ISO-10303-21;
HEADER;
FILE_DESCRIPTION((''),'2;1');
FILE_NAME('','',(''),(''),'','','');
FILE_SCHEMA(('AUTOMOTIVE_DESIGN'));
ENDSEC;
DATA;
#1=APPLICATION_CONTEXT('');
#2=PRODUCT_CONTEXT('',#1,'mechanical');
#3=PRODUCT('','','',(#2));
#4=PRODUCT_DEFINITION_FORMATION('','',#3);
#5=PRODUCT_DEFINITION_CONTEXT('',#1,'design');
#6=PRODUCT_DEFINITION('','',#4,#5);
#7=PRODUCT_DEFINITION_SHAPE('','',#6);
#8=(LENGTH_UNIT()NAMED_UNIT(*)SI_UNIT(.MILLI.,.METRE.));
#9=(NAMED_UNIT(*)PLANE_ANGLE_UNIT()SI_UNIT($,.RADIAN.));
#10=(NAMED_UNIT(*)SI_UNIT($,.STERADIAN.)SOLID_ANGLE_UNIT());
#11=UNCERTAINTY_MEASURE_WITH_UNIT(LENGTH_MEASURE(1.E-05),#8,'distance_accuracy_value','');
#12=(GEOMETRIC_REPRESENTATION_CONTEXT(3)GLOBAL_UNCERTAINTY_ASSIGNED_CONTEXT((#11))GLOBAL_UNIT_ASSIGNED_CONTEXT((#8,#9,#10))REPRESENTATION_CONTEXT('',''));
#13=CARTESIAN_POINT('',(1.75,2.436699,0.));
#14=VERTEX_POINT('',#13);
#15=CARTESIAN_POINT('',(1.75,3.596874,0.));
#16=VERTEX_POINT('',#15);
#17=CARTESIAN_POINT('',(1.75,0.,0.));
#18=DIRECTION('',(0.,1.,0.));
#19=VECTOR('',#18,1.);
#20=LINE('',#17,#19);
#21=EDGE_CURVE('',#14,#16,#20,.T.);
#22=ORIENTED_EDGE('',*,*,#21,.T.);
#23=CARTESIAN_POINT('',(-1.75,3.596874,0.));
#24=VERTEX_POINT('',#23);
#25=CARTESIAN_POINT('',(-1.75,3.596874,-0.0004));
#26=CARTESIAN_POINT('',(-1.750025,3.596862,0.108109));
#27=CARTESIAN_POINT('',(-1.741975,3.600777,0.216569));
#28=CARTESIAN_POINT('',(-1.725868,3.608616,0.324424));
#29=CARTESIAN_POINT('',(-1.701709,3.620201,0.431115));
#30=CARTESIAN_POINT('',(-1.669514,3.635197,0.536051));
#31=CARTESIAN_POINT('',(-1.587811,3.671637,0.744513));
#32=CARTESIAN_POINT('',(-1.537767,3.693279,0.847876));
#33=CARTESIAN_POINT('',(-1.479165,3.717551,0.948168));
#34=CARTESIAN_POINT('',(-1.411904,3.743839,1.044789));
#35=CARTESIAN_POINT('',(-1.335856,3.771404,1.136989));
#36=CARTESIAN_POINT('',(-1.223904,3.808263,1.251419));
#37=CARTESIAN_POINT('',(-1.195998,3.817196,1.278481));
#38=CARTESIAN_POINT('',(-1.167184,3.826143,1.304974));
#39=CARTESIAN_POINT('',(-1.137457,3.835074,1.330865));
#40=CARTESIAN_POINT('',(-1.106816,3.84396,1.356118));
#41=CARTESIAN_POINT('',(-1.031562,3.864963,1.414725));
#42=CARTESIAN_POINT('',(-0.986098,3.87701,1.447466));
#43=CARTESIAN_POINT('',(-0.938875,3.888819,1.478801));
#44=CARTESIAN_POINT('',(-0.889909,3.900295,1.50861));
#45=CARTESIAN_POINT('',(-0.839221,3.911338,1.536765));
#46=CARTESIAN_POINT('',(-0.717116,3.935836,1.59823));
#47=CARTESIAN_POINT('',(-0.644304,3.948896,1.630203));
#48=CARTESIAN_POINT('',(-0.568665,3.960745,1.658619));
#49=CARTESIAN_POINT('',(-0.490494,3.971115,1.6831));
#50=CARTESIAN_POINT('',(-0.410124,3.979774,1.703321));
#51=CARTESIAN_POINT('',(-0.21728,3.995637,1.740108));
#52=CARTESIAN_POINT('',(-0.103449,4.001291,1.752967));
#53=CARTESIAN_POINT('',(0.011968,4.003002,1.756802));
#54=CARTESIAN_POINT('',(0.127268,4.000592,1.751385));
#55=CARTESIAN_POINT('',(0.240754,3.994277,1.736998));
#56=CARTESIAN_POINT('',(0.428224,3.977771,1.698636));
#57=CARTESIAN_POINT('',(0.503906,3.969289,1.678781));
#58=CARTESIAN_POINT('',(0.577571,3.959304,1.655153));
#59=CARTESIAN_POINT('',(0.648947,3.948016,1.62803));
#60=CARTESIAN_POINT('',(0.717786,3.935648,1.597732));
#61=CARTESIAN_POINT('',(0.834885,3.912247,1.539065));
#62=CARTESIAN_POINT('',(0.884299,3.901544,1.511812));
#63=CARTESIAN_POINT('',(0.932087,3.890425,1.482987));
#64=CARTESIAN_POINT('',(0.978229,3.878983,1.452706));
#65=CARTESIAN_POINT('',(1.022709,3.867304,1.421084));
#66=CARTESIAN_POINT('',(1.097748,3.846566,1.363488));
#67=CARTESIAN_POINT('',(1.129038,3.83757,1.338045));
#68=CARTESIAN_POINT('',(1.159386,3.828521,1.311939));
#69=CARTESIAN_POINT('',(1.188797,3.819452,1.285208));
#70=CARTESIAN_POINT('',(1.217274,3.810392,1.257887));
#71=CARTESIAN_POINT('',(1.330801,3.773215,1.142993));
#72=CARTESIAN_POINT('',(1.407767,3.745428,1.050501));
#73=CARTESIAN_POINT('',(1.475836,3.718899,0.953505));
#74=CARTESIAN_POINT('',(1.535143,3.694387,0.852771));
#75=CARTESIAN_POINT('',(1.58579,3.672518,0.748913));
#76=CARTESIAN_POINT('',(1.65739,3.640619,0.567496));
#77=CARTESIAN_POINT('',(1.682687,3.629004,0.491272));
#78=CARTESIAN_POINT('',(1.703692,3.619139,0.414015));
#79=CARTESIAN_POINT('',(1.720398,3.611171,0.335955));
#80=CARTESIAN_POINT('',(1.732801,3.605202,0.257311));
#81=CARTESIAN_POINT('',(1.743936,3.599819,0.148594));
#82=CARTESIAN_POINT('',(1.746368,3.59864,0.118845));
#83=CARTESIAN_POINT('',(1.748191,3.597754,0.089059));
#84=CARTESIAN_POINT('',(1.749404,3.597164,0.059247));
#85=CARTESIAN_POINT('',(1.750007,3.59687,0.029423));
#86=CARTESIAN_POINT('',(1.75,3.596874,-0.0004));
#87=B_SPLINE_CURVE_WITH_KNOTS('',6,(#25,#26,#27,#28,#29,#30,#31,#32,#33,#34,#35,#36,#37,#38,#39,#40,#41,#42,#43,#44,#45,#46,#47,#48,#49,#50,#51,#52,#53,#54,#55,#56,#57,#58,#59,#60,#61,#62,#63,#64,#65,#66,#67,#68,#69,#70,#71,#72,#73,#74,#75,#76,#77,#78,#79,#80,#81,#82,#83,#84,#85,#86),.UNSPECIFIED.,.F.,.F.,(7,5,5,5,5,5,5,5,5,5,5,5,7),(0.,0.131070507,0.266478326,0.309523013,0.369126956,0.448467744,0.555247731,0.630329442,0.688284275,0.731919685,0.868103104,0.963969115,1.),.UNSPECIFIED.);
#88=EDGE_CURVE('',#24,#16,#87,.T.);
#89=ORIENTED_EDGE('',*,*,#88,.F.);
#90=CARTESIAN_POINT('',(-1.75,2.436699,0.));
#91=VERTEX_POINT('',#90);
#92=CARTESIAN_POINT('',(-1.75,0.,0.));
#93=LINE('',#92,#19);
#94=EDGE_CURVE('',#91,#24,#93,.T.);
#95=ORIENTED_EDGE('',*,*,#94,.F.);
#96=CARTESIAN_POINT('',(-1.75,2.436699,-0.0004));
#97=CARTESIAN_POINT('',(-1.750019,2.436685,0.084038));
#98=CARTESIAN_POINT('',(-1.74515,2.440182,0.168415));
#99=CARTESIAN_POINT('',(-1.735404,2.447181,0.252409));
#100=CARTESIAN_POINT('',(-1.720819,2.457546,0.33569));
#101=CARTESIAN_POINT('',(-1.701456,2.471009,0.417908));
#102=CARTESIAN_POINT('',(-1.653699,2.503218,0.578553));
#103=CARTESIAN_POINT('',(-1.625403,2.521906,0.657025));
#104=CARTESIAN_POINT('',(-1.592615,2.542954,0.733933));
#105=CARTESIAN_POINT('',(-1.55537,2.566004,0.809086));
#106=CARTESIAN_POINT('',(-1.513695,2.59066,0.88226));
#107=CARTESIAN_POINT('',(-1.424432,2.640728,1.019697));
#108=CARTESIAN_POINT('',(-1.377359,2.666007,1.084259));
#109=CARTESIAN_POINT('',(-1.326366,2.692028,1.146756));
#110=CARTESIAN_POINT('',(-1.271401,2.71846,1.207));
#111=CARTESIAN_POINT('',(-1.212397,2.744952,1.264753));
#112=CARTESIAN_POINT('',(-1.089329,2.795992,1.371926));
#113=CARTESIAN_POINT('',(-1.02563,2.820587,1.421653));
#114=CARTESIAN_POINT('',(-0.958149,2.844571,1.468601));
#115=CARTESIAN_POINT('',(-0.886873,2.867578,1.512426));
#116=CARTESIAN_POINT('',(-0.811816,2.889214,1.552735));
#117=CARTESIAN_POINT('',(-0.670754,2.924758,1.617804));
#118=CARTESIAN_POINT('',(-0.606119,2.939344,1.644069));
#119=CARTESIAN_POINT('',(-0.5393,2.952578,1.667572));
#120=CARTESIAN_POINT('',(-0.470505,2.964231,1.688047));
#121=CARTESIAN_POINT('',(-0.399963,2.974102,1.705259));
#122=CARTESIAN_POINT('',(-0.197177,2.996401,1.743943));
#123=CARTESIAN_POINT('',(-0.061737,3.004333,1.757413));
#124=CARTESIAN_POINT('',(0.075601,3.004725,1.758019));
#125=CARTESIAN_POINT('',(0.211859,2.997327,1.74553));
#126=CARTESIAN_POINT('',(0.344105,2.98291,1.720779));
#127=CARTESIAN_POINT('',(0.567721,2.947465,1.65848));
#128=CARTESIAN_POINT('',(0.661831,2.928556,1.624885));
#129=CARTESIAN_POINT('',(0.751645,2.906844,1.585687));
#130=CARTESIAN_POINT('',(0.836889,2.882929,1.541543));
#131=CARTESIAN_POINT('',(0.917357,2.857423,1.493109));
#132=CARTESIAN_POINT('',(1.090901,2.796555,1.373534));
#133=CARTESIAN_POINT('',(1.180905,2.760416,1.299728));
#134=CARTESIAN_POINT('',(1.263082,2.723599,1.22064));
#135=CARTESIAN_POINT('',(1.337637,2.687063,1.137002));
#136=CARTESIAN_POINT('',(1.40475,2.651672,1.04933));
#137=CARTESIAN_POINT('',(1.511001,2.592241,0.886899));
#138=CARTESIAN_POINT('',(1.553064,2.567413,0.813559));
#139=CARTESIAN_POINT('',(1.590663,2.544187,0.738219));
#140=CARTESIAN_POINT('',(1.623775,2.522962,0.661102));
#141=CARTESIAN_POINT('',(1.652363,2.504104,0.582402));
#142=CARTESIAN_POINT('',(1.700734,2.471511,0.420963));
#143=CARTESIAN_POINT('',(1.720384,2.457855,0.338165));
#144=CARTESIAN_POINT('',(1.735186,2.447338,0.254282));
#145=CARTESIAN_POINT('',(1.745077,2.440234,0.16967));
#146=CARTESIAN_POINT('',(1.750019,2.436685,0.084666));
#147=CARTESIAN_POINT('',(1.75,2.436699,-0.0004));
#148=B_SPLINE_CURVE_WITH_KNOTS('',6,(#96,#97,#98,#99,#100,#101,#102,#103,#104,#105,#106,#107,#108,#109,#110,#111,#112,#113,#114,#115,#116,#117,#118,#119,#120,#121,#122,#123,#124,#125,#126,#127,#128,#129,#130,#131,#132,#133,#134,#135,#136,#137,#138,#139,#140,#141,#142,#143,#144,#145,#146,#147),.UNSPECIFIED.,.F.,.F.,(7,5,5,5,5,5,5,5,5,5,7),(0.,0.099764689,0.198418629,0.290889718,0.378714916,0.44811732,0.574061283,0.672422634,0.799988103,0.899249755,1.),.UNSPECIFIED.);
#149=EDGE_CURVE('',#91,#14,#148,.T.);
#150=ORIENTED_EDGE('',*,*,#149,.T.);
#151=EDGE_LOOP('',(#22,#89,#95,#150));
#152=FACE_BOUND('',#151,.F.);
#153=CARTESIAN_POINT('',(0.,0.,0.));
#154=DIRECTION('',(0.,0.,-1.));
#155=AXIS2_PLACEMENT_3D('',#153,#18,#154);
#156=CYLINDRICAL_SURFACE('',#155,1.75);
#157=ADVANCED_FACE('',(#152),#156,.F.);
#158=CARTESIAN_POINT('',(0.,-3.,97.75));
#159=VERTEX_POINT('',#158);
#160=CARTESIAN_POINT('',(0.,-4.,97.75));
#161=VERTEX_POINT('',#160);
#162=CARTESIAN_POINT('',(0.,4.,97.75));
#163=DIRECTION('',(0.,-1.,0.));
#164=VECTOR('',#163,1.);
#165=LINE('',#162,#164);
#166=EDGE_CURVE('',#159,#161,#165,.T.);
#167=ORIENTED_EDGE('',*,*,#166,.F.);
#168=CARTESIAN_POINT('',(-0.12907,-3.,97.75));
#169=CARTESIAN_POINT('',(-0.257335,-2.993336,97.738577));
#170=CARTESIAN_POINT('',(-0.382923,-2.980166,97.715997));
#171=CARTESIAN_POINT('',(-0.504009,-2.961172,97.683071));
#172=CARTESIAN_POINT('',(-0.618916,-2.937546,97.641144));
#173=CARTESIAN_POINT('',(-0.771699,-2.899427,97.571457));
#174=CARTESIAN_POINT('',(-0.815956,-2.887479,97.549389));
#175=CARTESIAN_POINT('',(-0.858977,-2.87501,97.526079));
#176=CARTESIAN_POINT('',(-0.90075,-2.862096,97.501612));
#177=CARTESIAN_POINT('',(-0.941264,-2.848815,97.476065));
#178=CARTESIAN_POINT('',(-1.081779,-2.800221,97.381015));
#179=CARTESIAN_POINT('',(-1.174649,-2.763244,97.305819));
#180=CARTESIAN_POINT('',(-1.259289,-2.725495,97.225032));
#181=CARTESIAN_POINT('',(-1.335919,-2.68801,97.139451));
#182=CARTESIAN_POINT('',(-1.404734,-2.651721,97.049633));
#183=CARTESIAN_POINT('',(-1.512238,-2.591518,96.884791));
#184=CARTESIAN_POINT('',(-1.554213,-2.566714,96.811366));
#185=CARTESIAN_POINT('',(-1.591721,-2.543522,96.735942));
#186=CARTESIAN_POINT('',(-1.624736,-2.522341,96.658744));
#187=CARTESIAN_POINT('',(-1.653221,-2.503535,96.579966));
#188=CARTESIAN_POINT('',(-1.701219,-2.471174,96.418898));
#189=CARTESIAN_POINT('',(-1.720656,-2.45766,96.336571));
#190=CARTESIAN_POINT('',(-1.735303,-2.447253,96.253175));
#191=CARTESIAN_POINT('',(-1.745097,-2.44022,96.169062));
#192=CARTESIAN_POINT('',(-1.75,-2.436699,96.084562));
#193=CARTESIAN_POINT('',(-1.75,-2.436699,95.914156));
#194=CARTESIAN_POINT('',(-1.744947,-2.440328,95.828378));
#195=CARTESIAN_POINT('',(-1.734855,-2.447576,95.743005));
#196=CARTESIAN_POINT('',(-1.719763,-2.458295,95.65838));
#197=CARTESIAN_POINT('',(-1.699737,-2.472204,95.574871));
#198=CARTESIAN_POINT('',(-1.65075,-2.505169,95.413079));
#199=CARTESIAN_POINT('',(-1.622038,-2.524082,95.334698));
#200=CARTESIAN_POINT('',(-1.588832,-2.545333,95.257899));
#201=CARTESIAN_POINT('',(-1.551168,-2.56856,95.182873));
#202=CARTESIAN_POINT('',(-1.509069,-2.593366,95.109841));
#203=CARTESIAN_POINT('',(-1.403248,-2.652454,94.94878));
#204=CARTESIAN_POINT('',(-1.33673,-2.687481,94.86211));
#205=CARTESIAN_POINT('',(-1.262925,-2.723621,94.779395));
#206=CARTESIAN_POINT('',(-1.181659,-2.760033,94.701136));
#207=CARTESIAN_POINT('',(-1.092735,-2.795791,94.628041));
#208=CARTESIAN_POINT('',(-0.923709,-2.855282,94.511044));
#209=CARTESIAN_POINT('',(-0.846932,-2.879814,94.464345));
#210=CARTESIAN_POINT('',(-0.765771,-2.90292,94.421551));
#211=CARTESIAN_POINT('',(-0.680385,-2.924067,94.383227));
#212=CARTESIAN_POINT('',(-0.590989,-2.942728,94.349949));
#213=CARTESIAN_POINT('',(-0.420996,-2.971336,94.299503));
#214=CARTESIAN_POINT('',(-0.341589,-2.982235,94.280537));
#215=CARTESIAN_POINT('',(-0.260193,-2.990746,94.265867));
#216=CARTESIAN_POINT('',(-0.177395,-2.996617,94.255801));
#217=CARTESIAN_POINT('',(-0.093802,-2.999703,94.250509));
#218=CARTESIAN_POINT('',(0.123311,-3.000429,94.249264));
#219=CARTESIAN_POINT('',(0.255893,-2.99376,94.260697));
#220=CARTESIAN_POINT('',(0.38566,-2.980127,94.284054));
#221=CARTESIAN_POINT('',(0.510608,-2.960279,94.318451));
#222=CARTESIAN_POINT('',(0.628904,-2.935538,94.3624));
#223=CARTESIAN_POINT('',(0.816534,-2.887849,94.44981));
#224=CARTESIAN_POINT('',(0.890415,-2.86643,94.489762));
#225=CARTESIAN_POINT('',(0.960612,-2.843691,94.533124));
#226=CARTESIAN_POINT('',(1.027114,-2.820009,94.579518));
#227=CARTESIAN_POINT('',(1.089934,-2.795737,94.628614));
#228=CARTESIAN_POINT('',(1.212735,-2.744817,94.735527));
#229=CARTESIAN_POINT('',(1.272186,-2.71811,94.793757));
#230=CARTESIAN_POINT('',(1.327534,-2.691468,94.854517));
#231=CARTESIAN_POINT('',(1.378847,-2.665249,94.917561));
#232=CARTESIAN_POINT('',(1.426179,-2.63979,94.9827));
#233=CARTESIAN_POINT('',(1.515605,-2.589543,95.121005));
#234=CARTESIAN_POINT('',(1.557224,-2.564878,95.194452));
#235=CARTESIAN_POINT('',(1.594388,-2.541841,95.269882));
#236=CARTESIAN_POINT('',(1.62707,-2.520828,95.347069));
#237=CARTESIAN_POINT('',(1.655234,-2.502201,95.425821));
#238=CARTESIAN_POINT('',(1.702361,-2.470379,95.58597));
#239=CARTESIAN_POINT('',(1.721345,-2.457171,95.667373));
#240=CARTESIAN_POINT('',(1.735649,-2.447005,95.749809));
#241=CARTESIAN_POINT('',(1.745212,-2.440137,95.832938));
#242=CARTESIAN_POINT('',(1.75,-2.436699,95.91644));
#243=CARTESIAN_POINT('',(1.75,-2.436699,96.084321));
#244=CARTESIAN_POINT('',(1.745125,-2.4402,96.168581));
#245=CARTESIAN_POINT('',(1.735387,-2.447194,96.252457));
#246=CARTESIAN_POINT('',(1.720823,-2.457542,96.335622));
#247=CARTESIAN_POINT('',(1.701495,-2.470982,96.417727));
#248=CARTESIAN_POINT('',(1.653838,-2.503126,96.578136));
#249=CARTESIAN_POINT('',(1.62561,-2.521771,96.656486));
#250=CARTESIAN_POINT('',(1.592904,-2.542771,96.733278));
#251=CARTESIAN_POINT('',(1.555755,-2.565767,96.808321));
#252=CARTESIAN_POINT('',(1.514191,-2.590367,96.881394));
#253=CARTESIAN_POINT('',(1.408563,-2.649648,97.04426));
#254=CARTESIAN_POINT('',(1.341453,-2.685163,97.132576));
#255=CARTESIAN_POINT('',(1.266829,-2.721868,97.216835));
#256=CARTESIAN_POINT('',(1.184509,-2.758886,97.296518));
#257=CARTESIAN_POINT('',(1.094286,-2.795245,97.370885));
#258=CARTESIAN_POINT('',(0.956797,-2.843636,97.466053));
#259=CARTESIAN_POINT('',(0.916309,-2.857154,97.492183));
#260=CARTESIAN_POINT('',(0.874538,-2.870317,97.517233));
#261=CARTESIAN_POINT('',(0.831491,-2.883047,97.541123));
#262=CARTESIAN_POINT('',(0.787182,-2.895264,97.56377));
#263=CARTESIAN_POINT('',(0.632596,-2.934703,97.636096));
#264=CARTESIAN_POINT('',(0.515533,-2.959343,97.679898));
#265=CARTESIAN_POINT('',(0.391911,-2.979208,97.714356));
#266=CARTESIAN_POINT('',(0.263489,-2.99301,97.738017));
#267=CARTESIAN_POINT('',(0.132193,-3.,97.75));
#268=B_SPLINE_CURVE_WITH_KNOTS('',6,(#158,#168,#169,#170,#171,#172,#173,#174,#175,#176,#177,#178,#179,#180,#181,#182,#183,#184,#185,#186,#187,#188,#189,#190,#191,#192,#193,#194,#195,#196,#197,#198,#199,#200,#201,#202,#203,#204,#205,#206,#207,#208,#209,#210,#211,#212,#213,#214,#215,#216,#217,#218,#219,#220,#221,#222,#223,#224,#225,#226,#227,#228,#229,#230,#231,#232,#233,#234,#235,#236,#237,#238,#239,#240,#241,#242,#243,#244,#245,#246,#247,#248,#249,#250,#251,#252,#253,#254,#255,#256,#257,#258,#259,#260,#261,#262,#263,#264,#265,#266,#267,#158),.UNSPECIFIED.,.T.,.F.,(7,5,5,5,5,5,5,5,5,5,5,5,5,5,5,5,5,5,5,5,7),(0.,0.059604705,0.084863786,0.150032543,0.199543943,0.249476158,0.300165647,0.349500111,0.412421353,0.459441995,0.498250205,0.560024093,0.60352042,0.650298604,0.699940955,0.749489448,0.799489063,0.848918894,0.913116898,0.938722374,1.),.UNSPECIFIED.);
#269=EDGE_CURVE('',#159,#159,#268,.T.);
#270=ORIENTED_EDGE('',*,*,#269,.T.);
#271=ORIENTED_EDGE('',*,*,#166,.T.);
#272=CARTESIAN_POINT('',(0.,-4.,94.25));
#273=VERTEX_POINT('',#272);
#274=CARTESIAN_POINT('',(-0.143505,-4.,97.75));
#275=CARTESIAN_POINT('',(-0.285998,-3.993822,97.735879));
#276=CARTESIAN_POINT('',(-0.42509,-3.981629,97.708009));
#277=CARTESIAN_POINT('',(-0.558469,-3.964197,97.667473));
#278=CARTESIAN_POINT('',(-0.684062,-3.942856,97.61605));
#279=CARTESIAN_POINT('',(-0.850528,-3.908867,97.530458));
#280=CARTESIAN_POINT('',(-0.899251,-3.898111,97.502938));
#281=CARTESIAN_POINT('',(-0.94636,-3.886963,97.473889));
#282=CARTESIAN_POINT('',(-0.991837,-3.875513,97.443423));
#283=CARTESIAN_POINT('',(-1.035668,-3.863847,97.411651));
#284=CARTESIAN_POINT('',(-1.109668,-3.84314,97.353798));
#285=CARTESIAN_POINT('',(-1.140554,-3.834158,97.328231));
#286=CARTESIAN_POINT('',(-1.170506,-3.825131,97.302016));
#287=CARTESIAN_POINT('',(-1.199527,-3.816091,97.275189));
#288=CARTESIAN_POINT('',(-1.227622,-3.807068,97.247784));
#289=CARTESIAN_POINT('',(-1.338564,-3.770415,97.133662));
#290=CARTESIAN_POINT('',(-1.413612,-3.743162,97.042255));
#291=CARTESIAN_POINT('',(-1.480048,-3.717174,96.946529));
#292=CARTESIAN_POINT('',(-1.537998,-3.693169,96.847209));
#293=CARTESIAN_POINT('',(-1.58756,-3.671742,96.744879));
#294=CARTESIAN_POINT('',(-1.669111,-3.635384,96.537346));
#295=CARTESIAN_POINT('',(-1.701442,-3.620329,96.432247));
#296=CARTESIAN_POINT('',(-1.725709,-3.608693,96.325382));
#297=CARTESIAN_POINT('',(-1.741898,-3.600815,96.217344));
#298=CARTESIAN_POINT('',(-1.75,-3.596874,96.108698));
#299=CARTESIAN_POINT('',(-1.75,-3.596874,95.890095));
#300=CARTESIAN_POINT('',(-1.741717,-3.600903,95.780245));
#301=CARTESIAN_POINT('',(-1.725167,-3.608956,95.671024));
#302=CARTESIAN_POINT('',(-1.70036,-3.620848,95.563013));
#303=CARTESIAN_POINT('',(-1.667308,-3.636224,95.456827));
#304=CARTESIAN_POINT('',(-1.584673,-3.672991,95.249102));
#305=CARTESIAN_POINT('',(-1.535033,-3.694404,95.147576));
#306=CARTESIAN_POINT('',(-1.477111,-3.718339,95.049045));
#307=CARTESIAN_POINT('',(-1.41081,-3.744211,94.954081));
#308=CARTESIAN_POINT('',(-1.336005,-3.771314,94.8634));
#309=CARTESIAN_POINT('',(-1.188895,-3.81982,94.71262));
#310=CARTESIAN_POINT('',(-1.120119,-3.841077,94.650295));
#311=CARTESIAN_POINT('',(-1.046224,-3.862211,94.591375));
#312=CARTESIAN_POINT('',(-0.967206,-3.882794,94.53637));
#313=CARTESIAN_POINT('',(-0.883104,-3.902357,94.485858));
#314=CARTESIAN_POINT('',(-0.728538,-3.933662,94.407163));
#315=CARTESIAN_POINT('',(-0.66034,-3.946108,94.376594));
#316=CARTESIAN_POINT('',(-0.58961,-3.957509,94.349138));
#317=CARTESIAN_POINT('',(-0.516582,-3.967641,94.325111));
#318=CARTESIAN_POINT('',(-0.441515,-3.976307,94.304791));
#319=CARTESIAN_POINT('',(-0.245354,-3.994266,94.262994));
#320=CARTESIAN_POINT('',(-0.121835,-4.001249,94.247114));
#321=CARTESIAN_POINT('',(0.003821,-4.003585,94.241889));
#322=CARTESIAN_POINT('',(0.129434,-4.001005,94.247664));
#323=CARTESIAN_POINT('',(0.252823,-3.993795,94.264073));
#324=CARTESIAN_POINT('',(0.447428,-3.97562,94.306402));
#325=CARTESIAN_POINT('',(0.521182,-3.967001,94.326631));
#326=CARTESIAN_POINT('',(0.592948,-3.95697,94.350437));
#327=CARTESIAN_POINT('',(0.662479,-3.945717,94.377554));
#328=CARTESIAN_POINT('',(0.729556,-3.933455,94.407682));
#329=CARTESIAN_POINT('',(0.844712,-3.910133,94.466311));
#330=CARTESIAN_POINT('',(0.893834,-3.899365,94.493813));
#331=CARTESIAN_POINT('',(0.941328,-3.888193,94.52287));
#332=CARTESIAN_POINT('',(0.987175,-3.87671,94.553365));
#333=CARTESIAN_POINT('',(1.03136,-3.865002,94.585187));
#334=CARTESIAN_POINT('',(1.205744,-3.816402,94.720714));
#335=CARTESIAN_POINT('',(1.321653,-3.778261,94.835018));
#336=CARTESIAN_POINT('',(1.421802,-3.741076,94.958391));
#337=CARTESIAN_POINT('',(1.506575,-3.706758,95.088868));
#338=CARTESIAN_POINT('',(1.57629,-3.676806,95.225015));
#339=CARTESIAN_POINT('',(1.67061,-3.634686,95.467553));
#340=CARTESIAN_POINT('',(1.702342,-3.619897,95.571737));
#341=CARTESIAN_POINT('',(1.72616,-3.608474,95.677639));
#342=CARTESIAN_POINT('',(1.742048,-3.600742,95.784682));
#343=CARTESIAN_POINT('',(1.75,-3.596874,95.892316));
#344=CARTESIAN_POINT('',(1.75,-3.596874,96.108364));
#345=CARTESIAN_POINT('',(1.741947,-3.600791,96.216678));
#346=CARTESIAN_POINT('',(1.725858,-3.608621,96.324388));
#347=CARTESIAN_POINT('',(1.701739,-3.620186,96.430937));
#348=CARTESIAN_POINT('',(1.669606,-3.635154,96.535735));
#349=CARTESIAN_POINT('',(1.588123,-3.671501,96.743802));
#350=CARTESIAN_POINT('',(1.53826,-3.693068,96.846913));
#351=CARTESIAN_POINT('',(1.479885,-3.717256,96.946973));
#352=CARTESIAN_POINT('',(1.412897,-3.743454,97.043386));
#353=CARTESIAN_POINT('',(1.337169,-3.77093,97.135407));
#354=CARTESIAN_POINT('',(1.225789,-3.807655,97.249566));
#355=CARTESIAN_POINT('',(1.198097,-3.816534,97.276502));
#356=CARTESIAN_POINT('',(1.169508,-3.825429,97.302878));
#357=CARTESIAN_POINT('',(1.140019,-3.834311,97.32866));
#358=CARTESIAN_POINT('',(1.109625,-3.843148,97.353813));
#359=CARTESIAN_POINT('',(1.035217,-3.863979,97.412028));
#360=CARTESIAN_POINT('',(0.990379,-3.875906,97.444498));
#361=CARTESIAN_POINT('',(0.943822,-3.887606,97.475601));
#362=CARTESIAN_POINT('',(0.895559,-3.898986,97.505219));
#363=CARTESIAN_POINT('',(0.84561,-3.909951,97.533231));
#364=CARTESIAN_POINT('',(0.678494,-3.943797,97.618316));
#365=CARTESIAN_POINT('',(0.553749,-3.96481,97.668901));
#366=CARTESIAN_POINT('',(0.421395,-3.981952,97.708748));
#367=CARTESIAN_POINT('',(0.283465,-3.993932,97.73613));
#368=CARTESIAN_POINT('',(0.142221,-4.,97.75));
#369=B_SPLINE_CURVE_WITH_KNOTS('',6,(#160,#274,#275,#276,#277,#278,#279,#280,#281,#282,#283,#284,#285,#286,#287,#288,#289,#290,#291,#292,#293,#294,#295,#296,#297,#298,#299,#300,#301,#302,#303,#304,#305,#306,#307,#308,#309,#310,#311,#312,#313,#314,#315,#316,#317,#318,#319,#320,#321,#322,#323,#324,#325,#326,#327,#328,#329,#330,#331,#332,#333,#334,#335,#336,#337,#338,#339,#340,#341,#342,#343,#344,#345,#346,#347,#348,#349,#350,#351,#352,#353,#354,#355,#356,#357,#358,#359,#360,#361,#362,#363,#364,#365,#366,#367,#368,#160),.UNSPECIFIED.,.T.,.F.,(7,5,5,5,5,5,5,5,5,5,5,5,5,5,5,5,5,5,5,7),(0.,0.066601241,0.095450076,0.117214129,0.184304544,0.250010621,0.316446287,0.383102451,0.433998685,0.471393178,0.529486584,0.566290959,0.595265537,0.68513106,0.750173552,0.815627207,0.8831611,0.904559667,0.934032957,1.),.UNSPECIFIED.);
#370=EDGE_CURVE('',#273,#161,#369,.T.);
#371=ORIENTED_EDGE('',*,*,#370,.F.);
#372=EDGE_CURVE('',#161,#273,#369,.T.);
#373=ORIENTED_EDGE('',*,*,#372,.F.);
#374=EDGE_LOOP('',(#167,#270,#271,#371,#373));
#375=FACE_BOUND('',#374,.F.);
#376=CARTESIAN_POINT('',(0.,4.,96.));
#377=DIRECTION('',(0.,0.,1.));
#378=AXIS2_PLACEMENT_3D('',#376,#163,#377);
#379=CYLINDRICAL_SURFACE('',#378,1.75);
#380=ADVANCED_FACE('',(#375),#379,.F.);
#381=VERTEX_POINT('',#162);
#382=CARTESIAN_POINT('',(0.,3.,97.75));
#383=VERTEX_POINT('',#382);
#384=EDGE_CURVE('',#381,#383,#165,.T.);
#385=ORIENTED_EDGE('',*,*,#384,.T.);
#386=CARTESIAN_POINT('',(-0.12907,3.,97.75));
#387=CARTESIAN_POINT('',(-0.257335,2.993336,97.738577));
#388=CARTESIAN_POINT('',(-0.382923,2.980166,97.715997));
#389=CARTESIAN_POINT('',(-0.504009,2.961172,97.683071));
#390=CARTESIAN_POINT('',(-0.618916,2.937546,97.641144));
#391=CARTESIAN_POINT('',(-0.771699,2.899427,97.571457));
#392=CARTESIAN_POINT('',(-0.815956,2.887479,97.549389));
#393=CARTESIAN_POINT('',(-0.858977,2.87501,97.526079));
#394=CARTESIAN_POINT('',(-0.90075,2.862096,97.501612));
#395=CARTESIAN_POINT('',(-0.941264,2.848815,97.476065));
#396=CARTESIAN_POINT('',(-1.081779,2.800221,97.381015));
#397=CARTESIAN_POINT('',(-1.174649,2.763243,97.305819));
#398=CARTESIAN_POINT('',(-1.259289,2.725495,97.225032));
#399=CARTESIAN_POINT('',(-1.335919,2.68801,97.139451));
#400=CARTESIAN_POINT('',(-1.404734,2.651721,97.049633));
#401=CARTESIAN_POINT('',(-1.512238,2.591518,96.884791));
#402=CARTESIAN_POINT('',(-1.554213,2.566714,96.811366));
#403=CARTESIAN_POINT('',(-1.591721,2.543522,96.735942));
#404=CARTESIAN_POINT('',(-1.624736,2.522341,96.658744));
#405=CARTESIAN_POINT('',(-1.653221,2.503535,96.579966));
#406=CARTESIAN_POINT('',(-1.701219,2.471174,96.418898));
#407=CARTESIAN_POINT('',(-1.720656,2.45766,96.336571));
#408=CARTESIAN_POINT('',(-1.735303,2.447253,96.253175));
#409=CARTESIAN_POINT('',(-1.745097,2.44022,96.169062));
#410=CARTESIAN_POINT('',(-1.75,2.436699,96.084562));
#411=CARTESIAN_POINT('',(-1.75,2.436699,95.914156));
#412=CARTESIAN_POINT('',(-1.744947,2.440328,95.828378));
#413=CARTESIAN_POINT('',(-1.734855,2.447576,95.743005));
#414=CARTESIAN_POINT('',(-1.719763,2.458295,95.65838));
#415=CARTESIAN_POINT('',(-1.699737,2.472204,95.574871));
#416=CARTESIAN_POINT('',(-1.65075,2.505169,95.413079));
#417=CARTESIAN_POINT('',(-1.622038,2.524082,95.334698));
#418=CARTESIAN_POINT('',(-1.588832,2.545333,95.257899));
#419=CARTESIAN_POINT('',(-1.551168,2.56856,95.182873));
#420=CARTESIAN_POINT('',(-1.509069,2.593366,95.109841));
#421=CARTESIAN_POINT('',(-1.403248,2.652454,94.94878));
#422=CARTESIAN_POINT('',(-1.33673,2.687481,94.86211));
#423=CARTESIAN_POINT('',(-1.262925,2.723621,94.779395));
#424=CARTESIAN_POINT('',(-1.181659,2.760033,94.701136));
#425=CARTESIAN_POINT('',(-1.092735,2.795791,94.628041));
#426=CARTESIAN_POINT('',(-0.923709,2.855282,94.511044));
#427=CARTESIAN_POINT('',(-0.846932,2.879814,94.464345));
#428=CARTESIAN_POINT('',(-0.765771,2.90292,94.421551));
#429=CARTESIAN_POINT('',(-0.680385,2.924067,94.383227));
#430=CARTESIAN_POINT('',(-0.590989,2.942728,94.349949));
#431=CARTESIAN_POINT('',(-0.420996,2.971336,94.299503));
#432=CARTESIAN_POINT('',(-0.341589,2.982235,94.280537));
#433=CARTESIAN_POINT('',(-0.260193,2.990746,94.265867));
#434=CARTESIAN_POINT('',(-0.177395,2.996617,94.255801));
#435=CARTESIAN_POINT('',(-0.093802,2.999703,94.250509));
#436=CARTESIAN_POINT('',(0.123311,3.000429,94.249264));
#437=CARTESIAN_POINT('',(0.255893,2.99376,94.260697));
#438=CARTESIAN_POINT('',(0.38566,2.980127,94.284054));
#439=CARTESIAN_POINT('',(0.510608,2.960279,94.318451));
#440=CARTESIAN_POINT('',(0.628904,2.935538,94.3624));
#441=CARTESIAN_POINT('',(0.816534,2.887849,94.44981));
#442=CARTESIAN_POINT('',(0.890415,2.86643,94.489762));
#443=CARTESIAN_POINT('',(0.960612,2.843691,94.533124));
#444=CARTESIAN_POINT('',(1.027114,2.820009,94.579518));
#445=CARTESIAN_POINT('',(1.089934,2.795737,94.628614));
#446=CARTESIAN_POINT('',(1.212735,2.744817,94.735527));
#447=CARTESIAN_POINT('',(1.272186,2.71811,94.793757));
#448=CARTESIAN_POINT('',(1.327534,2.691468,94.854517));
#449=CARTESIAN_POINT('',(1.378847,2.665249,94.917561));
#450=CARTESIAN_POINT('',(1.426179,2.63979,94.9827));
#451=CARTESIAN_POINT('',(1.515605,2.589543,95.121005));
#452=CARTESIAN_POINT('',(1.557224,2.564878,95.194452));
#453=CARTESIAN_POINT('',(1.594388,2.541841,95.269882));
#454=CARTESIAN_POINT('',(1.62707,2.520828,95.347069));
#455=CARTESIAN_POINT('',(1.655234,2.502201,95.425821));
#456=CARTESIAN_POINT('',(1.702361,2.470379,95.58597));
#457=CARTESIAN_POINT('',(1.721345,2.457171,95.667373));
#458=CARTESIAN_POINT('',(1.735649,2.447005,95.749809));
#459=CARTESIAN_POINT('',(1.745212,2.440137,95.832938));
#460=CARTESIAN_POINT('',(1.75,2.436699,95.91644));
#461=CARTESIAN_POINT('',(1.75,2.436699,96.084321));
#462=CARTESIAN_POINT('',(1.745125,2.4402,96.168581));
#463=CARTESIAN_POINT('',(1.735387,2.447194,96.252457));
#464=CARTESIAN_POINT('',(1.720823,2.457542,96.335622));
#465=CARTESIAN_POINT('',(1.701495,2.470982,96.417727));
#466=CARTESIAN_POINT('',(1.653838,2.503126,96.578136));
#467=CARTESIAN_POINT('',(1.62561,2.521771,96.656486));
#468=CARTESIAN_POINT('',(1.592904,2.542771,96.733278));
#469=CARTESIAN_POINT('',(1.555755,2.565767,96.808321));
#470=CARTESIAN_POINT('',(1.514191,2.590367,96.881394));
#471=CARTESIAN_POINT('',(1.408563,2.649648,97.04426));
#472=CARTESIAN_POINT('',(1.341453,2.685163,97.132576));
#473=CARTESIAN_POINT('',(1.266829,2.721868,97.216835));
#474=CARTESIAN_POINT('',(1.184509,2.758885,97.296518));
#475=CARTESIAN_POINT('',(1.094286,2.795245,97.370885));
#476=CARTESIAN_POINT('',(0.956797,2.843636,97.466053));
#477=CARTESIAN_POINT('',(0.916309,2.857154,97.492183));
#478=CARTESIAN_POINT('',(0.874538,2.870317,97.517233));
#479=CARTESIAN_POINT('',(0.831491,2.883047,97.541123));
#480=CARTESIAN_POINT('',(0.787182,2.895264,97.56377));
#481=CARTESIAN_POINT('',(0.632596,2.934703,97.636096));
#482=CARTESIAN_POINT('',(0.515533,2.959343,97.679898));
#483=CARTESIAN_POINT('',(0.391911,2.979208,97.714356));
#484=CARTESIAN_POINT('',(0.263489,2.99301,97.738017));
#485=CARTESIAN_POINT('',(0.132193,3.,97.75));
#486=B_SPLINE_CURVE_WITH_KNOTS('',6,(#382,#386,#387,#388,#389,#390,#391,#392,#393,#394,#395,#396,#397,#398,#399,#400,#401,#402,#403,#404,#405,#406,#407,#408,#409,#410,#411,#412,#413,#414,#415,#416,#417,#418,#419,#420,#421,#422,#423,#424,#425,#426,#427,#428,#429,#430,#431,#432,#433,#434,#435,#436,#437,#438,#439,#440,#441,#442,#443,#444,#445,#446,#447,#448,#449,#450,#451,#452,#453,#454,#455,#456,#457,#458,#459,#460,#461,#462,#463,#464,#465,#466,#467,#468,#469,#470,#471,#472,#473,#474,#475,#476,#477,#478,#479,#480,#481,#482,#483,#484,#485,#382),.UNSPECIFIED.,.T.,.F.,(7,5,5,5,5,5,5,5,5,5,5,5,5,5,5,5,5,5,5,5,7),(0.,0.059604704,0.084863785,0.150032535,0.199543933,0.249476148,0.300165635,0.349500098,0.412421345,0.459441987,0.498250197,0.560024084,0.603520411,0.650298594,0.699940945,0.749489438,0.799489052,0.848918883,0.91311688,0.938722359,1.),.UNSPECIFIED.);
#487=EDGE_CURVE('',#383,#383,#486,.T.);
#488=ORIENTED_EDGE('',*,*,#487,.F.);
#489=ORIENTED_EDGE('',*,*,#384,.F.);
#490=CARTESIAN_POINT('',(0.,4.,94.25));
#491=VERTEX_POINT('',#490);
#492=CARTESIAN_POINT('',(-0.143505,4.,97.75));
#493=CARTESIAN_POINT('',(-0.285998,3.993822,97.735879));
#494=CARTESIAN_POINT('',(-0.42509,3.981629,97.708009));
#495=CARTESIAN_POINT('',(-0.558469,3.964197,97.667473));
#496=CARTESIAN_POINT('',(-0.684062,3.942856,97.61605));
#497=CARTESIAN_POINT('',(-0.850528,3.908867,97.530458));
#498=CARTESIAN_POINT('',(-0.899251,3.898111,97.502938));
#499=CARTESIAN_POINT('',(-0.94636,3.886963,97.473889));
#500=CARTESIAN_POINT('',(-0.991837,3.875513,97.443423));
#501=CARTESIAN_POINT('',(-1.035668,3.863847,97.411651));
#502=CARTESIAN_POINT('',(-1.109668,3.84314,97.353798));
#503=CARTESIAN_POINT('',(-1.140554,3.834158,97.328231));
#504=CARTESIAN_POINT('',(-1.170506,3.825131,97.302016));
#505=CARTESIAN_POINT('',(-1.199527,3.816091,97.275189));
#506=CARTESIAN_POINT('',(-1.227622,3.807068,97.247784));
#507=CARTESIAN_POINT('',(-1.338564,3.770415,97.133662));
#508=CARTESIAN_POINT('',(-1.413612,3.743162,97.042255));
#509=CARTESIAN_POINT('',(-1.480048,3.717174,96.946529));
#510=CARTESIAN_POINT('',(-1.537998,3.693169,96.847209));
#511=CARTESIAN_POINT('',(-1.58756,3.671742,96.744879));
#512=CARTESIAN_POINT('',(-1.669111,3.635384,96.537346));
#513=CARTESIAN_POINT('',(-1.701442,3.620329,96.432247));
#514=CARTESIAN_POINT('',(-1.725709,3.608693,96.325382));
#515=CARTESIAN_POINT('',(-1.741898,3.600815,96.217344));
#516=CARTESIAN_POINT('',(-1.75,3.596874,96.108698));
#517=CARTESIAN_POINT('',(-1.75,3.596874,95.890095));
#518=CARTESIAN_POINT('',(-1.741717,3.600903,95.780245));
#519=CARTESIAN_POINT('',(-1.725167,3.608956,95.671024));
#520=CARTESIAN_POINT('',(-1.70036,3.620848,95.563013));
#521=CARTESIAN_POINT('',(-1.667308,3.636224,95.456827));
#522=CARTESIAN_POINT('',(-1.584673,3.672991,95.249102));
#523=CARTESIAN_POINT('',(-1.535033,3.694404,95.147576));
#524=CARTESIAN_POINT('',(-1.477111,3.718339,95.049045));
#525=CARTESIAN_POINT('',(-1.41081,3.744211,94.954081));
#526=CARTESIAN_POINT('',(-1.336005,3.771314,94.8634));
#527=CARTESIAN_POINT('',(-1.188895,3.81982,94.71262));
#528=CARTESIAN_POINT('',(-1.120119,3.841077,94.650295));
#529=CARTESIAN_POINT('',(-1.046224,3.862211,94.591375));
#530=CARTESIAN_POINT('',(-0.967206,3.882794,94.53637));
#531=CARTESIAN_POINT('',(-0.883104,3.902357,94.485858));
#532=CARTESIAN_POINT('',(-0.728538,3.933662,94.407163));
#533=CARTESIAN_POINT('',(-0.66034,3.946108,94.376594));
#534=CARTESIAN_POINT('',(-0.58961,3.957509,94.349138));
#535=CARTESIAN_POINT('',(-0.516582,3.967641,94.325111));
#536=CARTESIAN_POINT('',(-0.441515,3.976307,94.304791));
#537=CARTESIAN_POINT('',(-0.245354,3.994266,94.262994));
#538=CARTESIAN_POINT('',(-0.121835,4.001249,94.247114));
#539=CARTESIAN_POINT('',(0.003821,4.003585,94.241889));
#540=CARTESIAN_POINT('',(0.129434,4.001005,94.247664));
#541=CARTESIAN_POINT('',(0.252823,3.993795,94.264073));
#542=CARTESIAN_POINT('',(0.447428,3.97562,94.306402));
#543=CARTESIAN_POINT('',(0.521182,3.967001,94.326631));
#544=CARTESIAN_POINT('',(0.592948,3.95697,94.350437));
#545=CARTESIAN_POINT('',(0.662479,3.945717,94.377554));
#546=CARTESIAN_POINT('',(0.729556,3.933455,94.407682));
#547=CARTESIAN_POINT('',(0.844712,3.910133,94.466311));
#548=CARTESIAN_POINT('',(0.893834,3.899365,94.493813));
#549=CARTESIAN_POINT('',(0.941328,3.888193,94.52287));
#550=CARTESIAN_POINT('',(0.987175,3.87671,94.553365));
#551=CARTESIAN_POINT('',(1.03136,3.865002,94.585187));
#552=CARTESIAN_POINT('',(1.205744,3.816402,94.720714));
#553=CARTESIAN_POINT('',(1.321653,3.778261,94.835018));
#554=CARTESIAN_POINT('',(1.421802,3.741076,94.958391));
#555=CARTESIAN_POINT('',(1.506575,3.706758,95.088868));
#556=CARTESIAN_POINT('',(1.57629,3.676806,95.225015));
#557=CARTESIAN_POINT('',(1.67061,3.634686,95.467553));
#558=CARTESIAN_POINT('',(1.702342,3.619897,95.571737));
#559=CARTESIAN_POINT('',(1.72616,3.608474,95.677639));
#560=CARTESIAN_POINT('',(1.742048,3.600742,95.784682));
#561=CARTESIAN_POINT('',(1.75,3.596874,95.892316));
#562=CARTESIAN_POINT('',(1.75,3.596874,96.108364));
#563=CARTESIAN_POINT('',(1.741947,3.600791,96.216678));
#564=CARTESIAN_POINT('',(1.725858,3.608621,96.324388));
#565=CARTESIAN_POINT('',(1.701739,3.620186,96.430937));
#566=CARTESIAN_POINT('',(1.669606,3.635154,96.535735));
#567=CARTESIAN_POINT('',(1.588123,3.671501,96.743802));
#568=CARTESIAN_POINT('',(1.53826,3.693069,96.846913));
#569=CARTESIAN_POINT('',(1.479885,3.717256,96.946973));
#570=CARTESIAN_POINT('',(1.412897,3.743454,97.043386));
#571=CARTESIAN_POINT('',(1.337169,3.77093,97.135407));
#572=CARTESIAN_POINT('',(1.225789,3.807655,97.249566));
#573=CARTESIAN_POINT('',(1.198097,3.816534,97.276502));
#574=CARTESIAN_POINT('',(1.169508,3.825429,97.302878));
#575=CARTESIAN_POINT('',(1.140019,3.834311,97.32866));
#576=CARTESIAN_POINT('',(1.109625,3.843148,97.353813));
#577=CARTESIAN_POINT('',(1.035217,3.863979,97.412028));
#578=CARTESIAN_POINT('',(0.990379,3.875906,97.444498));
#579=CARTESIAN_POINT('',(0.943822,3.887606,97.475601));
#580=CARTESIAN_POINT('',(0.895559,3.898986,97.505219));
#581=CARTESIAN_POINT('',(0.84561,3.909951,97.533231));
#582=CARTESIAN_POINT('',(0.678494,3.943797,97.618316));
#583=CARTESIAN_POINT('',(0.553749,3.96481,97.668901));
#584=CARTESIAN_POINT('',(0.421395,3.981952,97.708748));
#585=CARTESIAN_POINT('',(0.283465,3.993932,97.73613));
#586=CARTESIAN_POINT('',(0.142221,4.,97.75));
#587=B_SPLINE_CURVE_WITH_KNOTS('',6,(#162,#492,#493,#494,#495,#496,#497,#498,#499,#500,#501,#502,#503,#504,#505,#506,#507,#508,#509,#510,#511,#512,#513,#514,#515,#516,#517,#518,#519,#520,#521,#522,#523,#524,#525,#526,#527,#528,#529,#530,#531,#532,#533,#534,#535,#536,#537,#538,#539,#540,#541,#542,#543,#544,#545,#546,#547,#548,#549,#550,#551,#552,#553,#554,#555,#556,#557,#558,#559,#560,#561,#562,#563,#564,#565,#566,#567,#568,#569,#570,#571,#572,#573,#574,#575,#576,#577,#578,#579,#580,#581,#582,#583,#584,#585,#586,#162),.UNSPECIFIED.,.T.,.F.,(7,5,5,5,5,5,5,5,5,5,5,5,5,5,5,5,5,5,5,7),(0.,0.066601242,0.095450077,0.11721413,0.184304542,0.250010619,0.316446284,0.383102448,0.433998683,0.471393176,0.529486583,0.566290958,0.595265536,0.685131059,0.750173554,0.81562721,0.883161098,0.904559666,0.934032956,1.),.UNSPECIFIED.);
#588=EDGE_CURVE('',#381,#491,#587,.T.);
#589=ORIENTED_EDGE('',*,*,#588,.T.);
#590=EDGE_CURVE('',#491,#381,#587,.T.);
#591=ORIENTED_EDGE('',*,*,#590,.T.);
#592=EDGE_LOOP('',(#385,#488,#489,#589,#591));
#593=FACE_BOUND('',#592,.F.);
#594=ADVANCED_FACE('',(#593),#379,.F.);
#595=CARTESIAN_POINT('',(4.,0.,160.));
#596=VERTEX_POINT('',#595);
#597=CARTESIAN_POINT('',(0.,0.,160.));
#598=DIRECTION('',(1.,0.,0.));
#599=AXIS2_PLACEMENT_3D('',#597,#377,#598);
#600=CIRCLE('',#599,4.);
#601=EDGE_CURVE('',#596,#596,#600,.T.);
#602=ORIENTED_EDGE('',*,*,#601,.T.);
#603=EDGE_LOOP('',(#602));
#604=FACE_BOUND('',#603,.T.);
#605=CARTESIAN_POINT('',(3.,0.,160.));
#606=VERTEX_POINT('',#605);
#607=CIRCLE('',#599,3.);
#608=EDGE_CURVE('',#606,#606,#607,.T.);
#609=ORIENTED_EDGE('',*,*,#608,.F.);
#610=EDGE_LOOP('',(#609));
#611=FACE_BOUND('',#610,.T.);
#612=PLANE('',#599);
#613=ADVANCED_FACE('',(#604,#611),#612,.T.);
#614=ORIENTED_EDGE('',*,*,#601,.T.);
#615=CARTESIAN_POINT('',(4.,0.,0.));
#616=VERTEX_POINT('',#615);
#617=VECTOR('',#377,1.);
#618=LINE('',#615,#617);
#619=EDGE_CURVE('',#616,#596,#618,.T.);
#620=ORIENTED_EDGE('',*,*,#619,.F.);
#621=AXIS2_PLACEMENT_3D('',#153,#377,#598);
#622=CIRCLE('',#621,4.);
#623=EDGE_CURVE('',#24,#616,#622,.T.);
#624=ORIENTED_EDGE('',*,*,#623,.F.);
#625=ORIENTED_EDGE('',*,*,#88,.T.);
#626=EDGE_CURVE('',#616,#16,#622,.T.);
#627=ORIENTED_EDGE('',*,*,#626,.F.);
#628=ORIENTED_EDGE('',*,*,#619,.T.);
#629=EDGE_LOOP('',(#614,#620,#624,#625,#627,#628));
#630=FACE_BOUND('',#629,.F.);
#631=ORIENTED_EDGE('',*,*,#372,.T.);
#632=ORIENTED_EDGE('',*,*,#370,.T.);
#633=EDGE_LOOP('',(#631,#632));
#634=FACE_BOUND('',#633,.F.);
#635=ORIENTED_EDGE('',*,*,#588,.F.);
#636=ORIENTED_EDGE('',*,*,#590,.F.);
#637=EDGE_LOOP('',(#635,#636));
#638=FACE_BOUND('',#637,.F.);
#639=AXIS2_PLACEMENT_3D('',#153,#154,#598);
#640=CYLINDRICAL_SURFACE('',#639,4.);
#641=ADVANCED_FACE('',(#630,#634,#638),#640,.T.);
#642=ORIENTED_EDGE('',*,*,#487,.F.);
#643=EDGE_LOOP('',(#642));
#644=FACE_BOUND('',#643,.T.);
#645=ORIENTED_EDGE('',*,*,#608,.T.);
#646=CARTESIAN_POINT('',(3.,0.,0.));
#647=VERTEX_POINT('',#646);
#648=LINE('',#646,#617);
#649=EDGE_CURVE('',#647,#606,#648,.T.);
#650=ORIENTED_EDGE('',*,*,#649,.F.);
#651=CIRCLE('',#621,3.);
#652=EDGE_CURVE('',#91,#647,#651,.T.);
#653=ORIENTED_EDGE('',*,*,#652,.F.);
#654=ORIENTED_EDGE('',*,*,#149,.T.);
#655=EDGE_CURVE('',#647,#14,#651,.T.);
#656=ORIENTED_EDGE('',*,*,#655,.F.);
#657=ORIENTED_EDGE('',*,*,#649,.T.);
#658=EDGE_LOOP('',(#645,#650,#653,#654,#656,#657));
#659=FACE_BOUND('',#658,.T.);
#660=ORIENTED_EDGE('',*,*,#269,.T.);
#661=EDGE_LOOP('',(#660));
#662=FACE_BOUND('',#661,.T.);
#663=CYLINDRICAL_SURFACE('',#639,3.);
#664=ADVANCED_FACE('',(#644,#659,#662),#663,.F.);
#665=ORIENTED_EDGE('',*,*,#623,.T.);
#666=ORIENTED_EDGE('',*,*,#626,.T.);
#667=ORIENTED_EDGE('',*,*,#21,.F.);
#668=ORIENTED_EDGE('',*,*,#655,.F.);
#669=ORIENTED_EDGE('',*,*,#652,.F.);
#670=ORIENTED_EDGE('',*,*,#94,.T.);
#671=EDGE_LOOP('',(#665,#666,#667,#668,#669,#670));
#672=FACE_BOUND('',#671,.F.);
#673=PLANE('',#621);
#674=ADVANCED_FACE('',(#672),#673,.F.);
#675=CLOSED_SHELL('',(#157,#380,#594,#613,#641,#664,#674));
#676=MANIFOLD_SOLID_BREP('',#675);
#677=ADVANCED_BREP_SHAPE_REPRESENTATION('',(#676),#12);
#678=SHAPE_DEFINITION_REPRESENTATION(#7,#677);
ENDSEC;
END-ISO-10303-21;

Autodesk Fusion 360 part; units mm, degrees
sketch "Esquisse1" plane through (0, 0, 0) normal (0, 0, 1) x (1, 0, 0)
  circle A0 centre (0, 0) radius 4
  circle A1 centre (0, 0) radius 3
  dimension "d1" = 8
  dimension "d2" = 6
extrude "Extrusion1" add sketch "Esquisse1" along normal blind 160
hole "Perçage1" at (0, 0, 0) direction (0, 1, 0) diameter 3.5 depth 8 tip angle 180
hole "Perçage2" at (0, 4, 96) direction (0, -1, 0) diameter 3.5 depth 8 tip angle 180
